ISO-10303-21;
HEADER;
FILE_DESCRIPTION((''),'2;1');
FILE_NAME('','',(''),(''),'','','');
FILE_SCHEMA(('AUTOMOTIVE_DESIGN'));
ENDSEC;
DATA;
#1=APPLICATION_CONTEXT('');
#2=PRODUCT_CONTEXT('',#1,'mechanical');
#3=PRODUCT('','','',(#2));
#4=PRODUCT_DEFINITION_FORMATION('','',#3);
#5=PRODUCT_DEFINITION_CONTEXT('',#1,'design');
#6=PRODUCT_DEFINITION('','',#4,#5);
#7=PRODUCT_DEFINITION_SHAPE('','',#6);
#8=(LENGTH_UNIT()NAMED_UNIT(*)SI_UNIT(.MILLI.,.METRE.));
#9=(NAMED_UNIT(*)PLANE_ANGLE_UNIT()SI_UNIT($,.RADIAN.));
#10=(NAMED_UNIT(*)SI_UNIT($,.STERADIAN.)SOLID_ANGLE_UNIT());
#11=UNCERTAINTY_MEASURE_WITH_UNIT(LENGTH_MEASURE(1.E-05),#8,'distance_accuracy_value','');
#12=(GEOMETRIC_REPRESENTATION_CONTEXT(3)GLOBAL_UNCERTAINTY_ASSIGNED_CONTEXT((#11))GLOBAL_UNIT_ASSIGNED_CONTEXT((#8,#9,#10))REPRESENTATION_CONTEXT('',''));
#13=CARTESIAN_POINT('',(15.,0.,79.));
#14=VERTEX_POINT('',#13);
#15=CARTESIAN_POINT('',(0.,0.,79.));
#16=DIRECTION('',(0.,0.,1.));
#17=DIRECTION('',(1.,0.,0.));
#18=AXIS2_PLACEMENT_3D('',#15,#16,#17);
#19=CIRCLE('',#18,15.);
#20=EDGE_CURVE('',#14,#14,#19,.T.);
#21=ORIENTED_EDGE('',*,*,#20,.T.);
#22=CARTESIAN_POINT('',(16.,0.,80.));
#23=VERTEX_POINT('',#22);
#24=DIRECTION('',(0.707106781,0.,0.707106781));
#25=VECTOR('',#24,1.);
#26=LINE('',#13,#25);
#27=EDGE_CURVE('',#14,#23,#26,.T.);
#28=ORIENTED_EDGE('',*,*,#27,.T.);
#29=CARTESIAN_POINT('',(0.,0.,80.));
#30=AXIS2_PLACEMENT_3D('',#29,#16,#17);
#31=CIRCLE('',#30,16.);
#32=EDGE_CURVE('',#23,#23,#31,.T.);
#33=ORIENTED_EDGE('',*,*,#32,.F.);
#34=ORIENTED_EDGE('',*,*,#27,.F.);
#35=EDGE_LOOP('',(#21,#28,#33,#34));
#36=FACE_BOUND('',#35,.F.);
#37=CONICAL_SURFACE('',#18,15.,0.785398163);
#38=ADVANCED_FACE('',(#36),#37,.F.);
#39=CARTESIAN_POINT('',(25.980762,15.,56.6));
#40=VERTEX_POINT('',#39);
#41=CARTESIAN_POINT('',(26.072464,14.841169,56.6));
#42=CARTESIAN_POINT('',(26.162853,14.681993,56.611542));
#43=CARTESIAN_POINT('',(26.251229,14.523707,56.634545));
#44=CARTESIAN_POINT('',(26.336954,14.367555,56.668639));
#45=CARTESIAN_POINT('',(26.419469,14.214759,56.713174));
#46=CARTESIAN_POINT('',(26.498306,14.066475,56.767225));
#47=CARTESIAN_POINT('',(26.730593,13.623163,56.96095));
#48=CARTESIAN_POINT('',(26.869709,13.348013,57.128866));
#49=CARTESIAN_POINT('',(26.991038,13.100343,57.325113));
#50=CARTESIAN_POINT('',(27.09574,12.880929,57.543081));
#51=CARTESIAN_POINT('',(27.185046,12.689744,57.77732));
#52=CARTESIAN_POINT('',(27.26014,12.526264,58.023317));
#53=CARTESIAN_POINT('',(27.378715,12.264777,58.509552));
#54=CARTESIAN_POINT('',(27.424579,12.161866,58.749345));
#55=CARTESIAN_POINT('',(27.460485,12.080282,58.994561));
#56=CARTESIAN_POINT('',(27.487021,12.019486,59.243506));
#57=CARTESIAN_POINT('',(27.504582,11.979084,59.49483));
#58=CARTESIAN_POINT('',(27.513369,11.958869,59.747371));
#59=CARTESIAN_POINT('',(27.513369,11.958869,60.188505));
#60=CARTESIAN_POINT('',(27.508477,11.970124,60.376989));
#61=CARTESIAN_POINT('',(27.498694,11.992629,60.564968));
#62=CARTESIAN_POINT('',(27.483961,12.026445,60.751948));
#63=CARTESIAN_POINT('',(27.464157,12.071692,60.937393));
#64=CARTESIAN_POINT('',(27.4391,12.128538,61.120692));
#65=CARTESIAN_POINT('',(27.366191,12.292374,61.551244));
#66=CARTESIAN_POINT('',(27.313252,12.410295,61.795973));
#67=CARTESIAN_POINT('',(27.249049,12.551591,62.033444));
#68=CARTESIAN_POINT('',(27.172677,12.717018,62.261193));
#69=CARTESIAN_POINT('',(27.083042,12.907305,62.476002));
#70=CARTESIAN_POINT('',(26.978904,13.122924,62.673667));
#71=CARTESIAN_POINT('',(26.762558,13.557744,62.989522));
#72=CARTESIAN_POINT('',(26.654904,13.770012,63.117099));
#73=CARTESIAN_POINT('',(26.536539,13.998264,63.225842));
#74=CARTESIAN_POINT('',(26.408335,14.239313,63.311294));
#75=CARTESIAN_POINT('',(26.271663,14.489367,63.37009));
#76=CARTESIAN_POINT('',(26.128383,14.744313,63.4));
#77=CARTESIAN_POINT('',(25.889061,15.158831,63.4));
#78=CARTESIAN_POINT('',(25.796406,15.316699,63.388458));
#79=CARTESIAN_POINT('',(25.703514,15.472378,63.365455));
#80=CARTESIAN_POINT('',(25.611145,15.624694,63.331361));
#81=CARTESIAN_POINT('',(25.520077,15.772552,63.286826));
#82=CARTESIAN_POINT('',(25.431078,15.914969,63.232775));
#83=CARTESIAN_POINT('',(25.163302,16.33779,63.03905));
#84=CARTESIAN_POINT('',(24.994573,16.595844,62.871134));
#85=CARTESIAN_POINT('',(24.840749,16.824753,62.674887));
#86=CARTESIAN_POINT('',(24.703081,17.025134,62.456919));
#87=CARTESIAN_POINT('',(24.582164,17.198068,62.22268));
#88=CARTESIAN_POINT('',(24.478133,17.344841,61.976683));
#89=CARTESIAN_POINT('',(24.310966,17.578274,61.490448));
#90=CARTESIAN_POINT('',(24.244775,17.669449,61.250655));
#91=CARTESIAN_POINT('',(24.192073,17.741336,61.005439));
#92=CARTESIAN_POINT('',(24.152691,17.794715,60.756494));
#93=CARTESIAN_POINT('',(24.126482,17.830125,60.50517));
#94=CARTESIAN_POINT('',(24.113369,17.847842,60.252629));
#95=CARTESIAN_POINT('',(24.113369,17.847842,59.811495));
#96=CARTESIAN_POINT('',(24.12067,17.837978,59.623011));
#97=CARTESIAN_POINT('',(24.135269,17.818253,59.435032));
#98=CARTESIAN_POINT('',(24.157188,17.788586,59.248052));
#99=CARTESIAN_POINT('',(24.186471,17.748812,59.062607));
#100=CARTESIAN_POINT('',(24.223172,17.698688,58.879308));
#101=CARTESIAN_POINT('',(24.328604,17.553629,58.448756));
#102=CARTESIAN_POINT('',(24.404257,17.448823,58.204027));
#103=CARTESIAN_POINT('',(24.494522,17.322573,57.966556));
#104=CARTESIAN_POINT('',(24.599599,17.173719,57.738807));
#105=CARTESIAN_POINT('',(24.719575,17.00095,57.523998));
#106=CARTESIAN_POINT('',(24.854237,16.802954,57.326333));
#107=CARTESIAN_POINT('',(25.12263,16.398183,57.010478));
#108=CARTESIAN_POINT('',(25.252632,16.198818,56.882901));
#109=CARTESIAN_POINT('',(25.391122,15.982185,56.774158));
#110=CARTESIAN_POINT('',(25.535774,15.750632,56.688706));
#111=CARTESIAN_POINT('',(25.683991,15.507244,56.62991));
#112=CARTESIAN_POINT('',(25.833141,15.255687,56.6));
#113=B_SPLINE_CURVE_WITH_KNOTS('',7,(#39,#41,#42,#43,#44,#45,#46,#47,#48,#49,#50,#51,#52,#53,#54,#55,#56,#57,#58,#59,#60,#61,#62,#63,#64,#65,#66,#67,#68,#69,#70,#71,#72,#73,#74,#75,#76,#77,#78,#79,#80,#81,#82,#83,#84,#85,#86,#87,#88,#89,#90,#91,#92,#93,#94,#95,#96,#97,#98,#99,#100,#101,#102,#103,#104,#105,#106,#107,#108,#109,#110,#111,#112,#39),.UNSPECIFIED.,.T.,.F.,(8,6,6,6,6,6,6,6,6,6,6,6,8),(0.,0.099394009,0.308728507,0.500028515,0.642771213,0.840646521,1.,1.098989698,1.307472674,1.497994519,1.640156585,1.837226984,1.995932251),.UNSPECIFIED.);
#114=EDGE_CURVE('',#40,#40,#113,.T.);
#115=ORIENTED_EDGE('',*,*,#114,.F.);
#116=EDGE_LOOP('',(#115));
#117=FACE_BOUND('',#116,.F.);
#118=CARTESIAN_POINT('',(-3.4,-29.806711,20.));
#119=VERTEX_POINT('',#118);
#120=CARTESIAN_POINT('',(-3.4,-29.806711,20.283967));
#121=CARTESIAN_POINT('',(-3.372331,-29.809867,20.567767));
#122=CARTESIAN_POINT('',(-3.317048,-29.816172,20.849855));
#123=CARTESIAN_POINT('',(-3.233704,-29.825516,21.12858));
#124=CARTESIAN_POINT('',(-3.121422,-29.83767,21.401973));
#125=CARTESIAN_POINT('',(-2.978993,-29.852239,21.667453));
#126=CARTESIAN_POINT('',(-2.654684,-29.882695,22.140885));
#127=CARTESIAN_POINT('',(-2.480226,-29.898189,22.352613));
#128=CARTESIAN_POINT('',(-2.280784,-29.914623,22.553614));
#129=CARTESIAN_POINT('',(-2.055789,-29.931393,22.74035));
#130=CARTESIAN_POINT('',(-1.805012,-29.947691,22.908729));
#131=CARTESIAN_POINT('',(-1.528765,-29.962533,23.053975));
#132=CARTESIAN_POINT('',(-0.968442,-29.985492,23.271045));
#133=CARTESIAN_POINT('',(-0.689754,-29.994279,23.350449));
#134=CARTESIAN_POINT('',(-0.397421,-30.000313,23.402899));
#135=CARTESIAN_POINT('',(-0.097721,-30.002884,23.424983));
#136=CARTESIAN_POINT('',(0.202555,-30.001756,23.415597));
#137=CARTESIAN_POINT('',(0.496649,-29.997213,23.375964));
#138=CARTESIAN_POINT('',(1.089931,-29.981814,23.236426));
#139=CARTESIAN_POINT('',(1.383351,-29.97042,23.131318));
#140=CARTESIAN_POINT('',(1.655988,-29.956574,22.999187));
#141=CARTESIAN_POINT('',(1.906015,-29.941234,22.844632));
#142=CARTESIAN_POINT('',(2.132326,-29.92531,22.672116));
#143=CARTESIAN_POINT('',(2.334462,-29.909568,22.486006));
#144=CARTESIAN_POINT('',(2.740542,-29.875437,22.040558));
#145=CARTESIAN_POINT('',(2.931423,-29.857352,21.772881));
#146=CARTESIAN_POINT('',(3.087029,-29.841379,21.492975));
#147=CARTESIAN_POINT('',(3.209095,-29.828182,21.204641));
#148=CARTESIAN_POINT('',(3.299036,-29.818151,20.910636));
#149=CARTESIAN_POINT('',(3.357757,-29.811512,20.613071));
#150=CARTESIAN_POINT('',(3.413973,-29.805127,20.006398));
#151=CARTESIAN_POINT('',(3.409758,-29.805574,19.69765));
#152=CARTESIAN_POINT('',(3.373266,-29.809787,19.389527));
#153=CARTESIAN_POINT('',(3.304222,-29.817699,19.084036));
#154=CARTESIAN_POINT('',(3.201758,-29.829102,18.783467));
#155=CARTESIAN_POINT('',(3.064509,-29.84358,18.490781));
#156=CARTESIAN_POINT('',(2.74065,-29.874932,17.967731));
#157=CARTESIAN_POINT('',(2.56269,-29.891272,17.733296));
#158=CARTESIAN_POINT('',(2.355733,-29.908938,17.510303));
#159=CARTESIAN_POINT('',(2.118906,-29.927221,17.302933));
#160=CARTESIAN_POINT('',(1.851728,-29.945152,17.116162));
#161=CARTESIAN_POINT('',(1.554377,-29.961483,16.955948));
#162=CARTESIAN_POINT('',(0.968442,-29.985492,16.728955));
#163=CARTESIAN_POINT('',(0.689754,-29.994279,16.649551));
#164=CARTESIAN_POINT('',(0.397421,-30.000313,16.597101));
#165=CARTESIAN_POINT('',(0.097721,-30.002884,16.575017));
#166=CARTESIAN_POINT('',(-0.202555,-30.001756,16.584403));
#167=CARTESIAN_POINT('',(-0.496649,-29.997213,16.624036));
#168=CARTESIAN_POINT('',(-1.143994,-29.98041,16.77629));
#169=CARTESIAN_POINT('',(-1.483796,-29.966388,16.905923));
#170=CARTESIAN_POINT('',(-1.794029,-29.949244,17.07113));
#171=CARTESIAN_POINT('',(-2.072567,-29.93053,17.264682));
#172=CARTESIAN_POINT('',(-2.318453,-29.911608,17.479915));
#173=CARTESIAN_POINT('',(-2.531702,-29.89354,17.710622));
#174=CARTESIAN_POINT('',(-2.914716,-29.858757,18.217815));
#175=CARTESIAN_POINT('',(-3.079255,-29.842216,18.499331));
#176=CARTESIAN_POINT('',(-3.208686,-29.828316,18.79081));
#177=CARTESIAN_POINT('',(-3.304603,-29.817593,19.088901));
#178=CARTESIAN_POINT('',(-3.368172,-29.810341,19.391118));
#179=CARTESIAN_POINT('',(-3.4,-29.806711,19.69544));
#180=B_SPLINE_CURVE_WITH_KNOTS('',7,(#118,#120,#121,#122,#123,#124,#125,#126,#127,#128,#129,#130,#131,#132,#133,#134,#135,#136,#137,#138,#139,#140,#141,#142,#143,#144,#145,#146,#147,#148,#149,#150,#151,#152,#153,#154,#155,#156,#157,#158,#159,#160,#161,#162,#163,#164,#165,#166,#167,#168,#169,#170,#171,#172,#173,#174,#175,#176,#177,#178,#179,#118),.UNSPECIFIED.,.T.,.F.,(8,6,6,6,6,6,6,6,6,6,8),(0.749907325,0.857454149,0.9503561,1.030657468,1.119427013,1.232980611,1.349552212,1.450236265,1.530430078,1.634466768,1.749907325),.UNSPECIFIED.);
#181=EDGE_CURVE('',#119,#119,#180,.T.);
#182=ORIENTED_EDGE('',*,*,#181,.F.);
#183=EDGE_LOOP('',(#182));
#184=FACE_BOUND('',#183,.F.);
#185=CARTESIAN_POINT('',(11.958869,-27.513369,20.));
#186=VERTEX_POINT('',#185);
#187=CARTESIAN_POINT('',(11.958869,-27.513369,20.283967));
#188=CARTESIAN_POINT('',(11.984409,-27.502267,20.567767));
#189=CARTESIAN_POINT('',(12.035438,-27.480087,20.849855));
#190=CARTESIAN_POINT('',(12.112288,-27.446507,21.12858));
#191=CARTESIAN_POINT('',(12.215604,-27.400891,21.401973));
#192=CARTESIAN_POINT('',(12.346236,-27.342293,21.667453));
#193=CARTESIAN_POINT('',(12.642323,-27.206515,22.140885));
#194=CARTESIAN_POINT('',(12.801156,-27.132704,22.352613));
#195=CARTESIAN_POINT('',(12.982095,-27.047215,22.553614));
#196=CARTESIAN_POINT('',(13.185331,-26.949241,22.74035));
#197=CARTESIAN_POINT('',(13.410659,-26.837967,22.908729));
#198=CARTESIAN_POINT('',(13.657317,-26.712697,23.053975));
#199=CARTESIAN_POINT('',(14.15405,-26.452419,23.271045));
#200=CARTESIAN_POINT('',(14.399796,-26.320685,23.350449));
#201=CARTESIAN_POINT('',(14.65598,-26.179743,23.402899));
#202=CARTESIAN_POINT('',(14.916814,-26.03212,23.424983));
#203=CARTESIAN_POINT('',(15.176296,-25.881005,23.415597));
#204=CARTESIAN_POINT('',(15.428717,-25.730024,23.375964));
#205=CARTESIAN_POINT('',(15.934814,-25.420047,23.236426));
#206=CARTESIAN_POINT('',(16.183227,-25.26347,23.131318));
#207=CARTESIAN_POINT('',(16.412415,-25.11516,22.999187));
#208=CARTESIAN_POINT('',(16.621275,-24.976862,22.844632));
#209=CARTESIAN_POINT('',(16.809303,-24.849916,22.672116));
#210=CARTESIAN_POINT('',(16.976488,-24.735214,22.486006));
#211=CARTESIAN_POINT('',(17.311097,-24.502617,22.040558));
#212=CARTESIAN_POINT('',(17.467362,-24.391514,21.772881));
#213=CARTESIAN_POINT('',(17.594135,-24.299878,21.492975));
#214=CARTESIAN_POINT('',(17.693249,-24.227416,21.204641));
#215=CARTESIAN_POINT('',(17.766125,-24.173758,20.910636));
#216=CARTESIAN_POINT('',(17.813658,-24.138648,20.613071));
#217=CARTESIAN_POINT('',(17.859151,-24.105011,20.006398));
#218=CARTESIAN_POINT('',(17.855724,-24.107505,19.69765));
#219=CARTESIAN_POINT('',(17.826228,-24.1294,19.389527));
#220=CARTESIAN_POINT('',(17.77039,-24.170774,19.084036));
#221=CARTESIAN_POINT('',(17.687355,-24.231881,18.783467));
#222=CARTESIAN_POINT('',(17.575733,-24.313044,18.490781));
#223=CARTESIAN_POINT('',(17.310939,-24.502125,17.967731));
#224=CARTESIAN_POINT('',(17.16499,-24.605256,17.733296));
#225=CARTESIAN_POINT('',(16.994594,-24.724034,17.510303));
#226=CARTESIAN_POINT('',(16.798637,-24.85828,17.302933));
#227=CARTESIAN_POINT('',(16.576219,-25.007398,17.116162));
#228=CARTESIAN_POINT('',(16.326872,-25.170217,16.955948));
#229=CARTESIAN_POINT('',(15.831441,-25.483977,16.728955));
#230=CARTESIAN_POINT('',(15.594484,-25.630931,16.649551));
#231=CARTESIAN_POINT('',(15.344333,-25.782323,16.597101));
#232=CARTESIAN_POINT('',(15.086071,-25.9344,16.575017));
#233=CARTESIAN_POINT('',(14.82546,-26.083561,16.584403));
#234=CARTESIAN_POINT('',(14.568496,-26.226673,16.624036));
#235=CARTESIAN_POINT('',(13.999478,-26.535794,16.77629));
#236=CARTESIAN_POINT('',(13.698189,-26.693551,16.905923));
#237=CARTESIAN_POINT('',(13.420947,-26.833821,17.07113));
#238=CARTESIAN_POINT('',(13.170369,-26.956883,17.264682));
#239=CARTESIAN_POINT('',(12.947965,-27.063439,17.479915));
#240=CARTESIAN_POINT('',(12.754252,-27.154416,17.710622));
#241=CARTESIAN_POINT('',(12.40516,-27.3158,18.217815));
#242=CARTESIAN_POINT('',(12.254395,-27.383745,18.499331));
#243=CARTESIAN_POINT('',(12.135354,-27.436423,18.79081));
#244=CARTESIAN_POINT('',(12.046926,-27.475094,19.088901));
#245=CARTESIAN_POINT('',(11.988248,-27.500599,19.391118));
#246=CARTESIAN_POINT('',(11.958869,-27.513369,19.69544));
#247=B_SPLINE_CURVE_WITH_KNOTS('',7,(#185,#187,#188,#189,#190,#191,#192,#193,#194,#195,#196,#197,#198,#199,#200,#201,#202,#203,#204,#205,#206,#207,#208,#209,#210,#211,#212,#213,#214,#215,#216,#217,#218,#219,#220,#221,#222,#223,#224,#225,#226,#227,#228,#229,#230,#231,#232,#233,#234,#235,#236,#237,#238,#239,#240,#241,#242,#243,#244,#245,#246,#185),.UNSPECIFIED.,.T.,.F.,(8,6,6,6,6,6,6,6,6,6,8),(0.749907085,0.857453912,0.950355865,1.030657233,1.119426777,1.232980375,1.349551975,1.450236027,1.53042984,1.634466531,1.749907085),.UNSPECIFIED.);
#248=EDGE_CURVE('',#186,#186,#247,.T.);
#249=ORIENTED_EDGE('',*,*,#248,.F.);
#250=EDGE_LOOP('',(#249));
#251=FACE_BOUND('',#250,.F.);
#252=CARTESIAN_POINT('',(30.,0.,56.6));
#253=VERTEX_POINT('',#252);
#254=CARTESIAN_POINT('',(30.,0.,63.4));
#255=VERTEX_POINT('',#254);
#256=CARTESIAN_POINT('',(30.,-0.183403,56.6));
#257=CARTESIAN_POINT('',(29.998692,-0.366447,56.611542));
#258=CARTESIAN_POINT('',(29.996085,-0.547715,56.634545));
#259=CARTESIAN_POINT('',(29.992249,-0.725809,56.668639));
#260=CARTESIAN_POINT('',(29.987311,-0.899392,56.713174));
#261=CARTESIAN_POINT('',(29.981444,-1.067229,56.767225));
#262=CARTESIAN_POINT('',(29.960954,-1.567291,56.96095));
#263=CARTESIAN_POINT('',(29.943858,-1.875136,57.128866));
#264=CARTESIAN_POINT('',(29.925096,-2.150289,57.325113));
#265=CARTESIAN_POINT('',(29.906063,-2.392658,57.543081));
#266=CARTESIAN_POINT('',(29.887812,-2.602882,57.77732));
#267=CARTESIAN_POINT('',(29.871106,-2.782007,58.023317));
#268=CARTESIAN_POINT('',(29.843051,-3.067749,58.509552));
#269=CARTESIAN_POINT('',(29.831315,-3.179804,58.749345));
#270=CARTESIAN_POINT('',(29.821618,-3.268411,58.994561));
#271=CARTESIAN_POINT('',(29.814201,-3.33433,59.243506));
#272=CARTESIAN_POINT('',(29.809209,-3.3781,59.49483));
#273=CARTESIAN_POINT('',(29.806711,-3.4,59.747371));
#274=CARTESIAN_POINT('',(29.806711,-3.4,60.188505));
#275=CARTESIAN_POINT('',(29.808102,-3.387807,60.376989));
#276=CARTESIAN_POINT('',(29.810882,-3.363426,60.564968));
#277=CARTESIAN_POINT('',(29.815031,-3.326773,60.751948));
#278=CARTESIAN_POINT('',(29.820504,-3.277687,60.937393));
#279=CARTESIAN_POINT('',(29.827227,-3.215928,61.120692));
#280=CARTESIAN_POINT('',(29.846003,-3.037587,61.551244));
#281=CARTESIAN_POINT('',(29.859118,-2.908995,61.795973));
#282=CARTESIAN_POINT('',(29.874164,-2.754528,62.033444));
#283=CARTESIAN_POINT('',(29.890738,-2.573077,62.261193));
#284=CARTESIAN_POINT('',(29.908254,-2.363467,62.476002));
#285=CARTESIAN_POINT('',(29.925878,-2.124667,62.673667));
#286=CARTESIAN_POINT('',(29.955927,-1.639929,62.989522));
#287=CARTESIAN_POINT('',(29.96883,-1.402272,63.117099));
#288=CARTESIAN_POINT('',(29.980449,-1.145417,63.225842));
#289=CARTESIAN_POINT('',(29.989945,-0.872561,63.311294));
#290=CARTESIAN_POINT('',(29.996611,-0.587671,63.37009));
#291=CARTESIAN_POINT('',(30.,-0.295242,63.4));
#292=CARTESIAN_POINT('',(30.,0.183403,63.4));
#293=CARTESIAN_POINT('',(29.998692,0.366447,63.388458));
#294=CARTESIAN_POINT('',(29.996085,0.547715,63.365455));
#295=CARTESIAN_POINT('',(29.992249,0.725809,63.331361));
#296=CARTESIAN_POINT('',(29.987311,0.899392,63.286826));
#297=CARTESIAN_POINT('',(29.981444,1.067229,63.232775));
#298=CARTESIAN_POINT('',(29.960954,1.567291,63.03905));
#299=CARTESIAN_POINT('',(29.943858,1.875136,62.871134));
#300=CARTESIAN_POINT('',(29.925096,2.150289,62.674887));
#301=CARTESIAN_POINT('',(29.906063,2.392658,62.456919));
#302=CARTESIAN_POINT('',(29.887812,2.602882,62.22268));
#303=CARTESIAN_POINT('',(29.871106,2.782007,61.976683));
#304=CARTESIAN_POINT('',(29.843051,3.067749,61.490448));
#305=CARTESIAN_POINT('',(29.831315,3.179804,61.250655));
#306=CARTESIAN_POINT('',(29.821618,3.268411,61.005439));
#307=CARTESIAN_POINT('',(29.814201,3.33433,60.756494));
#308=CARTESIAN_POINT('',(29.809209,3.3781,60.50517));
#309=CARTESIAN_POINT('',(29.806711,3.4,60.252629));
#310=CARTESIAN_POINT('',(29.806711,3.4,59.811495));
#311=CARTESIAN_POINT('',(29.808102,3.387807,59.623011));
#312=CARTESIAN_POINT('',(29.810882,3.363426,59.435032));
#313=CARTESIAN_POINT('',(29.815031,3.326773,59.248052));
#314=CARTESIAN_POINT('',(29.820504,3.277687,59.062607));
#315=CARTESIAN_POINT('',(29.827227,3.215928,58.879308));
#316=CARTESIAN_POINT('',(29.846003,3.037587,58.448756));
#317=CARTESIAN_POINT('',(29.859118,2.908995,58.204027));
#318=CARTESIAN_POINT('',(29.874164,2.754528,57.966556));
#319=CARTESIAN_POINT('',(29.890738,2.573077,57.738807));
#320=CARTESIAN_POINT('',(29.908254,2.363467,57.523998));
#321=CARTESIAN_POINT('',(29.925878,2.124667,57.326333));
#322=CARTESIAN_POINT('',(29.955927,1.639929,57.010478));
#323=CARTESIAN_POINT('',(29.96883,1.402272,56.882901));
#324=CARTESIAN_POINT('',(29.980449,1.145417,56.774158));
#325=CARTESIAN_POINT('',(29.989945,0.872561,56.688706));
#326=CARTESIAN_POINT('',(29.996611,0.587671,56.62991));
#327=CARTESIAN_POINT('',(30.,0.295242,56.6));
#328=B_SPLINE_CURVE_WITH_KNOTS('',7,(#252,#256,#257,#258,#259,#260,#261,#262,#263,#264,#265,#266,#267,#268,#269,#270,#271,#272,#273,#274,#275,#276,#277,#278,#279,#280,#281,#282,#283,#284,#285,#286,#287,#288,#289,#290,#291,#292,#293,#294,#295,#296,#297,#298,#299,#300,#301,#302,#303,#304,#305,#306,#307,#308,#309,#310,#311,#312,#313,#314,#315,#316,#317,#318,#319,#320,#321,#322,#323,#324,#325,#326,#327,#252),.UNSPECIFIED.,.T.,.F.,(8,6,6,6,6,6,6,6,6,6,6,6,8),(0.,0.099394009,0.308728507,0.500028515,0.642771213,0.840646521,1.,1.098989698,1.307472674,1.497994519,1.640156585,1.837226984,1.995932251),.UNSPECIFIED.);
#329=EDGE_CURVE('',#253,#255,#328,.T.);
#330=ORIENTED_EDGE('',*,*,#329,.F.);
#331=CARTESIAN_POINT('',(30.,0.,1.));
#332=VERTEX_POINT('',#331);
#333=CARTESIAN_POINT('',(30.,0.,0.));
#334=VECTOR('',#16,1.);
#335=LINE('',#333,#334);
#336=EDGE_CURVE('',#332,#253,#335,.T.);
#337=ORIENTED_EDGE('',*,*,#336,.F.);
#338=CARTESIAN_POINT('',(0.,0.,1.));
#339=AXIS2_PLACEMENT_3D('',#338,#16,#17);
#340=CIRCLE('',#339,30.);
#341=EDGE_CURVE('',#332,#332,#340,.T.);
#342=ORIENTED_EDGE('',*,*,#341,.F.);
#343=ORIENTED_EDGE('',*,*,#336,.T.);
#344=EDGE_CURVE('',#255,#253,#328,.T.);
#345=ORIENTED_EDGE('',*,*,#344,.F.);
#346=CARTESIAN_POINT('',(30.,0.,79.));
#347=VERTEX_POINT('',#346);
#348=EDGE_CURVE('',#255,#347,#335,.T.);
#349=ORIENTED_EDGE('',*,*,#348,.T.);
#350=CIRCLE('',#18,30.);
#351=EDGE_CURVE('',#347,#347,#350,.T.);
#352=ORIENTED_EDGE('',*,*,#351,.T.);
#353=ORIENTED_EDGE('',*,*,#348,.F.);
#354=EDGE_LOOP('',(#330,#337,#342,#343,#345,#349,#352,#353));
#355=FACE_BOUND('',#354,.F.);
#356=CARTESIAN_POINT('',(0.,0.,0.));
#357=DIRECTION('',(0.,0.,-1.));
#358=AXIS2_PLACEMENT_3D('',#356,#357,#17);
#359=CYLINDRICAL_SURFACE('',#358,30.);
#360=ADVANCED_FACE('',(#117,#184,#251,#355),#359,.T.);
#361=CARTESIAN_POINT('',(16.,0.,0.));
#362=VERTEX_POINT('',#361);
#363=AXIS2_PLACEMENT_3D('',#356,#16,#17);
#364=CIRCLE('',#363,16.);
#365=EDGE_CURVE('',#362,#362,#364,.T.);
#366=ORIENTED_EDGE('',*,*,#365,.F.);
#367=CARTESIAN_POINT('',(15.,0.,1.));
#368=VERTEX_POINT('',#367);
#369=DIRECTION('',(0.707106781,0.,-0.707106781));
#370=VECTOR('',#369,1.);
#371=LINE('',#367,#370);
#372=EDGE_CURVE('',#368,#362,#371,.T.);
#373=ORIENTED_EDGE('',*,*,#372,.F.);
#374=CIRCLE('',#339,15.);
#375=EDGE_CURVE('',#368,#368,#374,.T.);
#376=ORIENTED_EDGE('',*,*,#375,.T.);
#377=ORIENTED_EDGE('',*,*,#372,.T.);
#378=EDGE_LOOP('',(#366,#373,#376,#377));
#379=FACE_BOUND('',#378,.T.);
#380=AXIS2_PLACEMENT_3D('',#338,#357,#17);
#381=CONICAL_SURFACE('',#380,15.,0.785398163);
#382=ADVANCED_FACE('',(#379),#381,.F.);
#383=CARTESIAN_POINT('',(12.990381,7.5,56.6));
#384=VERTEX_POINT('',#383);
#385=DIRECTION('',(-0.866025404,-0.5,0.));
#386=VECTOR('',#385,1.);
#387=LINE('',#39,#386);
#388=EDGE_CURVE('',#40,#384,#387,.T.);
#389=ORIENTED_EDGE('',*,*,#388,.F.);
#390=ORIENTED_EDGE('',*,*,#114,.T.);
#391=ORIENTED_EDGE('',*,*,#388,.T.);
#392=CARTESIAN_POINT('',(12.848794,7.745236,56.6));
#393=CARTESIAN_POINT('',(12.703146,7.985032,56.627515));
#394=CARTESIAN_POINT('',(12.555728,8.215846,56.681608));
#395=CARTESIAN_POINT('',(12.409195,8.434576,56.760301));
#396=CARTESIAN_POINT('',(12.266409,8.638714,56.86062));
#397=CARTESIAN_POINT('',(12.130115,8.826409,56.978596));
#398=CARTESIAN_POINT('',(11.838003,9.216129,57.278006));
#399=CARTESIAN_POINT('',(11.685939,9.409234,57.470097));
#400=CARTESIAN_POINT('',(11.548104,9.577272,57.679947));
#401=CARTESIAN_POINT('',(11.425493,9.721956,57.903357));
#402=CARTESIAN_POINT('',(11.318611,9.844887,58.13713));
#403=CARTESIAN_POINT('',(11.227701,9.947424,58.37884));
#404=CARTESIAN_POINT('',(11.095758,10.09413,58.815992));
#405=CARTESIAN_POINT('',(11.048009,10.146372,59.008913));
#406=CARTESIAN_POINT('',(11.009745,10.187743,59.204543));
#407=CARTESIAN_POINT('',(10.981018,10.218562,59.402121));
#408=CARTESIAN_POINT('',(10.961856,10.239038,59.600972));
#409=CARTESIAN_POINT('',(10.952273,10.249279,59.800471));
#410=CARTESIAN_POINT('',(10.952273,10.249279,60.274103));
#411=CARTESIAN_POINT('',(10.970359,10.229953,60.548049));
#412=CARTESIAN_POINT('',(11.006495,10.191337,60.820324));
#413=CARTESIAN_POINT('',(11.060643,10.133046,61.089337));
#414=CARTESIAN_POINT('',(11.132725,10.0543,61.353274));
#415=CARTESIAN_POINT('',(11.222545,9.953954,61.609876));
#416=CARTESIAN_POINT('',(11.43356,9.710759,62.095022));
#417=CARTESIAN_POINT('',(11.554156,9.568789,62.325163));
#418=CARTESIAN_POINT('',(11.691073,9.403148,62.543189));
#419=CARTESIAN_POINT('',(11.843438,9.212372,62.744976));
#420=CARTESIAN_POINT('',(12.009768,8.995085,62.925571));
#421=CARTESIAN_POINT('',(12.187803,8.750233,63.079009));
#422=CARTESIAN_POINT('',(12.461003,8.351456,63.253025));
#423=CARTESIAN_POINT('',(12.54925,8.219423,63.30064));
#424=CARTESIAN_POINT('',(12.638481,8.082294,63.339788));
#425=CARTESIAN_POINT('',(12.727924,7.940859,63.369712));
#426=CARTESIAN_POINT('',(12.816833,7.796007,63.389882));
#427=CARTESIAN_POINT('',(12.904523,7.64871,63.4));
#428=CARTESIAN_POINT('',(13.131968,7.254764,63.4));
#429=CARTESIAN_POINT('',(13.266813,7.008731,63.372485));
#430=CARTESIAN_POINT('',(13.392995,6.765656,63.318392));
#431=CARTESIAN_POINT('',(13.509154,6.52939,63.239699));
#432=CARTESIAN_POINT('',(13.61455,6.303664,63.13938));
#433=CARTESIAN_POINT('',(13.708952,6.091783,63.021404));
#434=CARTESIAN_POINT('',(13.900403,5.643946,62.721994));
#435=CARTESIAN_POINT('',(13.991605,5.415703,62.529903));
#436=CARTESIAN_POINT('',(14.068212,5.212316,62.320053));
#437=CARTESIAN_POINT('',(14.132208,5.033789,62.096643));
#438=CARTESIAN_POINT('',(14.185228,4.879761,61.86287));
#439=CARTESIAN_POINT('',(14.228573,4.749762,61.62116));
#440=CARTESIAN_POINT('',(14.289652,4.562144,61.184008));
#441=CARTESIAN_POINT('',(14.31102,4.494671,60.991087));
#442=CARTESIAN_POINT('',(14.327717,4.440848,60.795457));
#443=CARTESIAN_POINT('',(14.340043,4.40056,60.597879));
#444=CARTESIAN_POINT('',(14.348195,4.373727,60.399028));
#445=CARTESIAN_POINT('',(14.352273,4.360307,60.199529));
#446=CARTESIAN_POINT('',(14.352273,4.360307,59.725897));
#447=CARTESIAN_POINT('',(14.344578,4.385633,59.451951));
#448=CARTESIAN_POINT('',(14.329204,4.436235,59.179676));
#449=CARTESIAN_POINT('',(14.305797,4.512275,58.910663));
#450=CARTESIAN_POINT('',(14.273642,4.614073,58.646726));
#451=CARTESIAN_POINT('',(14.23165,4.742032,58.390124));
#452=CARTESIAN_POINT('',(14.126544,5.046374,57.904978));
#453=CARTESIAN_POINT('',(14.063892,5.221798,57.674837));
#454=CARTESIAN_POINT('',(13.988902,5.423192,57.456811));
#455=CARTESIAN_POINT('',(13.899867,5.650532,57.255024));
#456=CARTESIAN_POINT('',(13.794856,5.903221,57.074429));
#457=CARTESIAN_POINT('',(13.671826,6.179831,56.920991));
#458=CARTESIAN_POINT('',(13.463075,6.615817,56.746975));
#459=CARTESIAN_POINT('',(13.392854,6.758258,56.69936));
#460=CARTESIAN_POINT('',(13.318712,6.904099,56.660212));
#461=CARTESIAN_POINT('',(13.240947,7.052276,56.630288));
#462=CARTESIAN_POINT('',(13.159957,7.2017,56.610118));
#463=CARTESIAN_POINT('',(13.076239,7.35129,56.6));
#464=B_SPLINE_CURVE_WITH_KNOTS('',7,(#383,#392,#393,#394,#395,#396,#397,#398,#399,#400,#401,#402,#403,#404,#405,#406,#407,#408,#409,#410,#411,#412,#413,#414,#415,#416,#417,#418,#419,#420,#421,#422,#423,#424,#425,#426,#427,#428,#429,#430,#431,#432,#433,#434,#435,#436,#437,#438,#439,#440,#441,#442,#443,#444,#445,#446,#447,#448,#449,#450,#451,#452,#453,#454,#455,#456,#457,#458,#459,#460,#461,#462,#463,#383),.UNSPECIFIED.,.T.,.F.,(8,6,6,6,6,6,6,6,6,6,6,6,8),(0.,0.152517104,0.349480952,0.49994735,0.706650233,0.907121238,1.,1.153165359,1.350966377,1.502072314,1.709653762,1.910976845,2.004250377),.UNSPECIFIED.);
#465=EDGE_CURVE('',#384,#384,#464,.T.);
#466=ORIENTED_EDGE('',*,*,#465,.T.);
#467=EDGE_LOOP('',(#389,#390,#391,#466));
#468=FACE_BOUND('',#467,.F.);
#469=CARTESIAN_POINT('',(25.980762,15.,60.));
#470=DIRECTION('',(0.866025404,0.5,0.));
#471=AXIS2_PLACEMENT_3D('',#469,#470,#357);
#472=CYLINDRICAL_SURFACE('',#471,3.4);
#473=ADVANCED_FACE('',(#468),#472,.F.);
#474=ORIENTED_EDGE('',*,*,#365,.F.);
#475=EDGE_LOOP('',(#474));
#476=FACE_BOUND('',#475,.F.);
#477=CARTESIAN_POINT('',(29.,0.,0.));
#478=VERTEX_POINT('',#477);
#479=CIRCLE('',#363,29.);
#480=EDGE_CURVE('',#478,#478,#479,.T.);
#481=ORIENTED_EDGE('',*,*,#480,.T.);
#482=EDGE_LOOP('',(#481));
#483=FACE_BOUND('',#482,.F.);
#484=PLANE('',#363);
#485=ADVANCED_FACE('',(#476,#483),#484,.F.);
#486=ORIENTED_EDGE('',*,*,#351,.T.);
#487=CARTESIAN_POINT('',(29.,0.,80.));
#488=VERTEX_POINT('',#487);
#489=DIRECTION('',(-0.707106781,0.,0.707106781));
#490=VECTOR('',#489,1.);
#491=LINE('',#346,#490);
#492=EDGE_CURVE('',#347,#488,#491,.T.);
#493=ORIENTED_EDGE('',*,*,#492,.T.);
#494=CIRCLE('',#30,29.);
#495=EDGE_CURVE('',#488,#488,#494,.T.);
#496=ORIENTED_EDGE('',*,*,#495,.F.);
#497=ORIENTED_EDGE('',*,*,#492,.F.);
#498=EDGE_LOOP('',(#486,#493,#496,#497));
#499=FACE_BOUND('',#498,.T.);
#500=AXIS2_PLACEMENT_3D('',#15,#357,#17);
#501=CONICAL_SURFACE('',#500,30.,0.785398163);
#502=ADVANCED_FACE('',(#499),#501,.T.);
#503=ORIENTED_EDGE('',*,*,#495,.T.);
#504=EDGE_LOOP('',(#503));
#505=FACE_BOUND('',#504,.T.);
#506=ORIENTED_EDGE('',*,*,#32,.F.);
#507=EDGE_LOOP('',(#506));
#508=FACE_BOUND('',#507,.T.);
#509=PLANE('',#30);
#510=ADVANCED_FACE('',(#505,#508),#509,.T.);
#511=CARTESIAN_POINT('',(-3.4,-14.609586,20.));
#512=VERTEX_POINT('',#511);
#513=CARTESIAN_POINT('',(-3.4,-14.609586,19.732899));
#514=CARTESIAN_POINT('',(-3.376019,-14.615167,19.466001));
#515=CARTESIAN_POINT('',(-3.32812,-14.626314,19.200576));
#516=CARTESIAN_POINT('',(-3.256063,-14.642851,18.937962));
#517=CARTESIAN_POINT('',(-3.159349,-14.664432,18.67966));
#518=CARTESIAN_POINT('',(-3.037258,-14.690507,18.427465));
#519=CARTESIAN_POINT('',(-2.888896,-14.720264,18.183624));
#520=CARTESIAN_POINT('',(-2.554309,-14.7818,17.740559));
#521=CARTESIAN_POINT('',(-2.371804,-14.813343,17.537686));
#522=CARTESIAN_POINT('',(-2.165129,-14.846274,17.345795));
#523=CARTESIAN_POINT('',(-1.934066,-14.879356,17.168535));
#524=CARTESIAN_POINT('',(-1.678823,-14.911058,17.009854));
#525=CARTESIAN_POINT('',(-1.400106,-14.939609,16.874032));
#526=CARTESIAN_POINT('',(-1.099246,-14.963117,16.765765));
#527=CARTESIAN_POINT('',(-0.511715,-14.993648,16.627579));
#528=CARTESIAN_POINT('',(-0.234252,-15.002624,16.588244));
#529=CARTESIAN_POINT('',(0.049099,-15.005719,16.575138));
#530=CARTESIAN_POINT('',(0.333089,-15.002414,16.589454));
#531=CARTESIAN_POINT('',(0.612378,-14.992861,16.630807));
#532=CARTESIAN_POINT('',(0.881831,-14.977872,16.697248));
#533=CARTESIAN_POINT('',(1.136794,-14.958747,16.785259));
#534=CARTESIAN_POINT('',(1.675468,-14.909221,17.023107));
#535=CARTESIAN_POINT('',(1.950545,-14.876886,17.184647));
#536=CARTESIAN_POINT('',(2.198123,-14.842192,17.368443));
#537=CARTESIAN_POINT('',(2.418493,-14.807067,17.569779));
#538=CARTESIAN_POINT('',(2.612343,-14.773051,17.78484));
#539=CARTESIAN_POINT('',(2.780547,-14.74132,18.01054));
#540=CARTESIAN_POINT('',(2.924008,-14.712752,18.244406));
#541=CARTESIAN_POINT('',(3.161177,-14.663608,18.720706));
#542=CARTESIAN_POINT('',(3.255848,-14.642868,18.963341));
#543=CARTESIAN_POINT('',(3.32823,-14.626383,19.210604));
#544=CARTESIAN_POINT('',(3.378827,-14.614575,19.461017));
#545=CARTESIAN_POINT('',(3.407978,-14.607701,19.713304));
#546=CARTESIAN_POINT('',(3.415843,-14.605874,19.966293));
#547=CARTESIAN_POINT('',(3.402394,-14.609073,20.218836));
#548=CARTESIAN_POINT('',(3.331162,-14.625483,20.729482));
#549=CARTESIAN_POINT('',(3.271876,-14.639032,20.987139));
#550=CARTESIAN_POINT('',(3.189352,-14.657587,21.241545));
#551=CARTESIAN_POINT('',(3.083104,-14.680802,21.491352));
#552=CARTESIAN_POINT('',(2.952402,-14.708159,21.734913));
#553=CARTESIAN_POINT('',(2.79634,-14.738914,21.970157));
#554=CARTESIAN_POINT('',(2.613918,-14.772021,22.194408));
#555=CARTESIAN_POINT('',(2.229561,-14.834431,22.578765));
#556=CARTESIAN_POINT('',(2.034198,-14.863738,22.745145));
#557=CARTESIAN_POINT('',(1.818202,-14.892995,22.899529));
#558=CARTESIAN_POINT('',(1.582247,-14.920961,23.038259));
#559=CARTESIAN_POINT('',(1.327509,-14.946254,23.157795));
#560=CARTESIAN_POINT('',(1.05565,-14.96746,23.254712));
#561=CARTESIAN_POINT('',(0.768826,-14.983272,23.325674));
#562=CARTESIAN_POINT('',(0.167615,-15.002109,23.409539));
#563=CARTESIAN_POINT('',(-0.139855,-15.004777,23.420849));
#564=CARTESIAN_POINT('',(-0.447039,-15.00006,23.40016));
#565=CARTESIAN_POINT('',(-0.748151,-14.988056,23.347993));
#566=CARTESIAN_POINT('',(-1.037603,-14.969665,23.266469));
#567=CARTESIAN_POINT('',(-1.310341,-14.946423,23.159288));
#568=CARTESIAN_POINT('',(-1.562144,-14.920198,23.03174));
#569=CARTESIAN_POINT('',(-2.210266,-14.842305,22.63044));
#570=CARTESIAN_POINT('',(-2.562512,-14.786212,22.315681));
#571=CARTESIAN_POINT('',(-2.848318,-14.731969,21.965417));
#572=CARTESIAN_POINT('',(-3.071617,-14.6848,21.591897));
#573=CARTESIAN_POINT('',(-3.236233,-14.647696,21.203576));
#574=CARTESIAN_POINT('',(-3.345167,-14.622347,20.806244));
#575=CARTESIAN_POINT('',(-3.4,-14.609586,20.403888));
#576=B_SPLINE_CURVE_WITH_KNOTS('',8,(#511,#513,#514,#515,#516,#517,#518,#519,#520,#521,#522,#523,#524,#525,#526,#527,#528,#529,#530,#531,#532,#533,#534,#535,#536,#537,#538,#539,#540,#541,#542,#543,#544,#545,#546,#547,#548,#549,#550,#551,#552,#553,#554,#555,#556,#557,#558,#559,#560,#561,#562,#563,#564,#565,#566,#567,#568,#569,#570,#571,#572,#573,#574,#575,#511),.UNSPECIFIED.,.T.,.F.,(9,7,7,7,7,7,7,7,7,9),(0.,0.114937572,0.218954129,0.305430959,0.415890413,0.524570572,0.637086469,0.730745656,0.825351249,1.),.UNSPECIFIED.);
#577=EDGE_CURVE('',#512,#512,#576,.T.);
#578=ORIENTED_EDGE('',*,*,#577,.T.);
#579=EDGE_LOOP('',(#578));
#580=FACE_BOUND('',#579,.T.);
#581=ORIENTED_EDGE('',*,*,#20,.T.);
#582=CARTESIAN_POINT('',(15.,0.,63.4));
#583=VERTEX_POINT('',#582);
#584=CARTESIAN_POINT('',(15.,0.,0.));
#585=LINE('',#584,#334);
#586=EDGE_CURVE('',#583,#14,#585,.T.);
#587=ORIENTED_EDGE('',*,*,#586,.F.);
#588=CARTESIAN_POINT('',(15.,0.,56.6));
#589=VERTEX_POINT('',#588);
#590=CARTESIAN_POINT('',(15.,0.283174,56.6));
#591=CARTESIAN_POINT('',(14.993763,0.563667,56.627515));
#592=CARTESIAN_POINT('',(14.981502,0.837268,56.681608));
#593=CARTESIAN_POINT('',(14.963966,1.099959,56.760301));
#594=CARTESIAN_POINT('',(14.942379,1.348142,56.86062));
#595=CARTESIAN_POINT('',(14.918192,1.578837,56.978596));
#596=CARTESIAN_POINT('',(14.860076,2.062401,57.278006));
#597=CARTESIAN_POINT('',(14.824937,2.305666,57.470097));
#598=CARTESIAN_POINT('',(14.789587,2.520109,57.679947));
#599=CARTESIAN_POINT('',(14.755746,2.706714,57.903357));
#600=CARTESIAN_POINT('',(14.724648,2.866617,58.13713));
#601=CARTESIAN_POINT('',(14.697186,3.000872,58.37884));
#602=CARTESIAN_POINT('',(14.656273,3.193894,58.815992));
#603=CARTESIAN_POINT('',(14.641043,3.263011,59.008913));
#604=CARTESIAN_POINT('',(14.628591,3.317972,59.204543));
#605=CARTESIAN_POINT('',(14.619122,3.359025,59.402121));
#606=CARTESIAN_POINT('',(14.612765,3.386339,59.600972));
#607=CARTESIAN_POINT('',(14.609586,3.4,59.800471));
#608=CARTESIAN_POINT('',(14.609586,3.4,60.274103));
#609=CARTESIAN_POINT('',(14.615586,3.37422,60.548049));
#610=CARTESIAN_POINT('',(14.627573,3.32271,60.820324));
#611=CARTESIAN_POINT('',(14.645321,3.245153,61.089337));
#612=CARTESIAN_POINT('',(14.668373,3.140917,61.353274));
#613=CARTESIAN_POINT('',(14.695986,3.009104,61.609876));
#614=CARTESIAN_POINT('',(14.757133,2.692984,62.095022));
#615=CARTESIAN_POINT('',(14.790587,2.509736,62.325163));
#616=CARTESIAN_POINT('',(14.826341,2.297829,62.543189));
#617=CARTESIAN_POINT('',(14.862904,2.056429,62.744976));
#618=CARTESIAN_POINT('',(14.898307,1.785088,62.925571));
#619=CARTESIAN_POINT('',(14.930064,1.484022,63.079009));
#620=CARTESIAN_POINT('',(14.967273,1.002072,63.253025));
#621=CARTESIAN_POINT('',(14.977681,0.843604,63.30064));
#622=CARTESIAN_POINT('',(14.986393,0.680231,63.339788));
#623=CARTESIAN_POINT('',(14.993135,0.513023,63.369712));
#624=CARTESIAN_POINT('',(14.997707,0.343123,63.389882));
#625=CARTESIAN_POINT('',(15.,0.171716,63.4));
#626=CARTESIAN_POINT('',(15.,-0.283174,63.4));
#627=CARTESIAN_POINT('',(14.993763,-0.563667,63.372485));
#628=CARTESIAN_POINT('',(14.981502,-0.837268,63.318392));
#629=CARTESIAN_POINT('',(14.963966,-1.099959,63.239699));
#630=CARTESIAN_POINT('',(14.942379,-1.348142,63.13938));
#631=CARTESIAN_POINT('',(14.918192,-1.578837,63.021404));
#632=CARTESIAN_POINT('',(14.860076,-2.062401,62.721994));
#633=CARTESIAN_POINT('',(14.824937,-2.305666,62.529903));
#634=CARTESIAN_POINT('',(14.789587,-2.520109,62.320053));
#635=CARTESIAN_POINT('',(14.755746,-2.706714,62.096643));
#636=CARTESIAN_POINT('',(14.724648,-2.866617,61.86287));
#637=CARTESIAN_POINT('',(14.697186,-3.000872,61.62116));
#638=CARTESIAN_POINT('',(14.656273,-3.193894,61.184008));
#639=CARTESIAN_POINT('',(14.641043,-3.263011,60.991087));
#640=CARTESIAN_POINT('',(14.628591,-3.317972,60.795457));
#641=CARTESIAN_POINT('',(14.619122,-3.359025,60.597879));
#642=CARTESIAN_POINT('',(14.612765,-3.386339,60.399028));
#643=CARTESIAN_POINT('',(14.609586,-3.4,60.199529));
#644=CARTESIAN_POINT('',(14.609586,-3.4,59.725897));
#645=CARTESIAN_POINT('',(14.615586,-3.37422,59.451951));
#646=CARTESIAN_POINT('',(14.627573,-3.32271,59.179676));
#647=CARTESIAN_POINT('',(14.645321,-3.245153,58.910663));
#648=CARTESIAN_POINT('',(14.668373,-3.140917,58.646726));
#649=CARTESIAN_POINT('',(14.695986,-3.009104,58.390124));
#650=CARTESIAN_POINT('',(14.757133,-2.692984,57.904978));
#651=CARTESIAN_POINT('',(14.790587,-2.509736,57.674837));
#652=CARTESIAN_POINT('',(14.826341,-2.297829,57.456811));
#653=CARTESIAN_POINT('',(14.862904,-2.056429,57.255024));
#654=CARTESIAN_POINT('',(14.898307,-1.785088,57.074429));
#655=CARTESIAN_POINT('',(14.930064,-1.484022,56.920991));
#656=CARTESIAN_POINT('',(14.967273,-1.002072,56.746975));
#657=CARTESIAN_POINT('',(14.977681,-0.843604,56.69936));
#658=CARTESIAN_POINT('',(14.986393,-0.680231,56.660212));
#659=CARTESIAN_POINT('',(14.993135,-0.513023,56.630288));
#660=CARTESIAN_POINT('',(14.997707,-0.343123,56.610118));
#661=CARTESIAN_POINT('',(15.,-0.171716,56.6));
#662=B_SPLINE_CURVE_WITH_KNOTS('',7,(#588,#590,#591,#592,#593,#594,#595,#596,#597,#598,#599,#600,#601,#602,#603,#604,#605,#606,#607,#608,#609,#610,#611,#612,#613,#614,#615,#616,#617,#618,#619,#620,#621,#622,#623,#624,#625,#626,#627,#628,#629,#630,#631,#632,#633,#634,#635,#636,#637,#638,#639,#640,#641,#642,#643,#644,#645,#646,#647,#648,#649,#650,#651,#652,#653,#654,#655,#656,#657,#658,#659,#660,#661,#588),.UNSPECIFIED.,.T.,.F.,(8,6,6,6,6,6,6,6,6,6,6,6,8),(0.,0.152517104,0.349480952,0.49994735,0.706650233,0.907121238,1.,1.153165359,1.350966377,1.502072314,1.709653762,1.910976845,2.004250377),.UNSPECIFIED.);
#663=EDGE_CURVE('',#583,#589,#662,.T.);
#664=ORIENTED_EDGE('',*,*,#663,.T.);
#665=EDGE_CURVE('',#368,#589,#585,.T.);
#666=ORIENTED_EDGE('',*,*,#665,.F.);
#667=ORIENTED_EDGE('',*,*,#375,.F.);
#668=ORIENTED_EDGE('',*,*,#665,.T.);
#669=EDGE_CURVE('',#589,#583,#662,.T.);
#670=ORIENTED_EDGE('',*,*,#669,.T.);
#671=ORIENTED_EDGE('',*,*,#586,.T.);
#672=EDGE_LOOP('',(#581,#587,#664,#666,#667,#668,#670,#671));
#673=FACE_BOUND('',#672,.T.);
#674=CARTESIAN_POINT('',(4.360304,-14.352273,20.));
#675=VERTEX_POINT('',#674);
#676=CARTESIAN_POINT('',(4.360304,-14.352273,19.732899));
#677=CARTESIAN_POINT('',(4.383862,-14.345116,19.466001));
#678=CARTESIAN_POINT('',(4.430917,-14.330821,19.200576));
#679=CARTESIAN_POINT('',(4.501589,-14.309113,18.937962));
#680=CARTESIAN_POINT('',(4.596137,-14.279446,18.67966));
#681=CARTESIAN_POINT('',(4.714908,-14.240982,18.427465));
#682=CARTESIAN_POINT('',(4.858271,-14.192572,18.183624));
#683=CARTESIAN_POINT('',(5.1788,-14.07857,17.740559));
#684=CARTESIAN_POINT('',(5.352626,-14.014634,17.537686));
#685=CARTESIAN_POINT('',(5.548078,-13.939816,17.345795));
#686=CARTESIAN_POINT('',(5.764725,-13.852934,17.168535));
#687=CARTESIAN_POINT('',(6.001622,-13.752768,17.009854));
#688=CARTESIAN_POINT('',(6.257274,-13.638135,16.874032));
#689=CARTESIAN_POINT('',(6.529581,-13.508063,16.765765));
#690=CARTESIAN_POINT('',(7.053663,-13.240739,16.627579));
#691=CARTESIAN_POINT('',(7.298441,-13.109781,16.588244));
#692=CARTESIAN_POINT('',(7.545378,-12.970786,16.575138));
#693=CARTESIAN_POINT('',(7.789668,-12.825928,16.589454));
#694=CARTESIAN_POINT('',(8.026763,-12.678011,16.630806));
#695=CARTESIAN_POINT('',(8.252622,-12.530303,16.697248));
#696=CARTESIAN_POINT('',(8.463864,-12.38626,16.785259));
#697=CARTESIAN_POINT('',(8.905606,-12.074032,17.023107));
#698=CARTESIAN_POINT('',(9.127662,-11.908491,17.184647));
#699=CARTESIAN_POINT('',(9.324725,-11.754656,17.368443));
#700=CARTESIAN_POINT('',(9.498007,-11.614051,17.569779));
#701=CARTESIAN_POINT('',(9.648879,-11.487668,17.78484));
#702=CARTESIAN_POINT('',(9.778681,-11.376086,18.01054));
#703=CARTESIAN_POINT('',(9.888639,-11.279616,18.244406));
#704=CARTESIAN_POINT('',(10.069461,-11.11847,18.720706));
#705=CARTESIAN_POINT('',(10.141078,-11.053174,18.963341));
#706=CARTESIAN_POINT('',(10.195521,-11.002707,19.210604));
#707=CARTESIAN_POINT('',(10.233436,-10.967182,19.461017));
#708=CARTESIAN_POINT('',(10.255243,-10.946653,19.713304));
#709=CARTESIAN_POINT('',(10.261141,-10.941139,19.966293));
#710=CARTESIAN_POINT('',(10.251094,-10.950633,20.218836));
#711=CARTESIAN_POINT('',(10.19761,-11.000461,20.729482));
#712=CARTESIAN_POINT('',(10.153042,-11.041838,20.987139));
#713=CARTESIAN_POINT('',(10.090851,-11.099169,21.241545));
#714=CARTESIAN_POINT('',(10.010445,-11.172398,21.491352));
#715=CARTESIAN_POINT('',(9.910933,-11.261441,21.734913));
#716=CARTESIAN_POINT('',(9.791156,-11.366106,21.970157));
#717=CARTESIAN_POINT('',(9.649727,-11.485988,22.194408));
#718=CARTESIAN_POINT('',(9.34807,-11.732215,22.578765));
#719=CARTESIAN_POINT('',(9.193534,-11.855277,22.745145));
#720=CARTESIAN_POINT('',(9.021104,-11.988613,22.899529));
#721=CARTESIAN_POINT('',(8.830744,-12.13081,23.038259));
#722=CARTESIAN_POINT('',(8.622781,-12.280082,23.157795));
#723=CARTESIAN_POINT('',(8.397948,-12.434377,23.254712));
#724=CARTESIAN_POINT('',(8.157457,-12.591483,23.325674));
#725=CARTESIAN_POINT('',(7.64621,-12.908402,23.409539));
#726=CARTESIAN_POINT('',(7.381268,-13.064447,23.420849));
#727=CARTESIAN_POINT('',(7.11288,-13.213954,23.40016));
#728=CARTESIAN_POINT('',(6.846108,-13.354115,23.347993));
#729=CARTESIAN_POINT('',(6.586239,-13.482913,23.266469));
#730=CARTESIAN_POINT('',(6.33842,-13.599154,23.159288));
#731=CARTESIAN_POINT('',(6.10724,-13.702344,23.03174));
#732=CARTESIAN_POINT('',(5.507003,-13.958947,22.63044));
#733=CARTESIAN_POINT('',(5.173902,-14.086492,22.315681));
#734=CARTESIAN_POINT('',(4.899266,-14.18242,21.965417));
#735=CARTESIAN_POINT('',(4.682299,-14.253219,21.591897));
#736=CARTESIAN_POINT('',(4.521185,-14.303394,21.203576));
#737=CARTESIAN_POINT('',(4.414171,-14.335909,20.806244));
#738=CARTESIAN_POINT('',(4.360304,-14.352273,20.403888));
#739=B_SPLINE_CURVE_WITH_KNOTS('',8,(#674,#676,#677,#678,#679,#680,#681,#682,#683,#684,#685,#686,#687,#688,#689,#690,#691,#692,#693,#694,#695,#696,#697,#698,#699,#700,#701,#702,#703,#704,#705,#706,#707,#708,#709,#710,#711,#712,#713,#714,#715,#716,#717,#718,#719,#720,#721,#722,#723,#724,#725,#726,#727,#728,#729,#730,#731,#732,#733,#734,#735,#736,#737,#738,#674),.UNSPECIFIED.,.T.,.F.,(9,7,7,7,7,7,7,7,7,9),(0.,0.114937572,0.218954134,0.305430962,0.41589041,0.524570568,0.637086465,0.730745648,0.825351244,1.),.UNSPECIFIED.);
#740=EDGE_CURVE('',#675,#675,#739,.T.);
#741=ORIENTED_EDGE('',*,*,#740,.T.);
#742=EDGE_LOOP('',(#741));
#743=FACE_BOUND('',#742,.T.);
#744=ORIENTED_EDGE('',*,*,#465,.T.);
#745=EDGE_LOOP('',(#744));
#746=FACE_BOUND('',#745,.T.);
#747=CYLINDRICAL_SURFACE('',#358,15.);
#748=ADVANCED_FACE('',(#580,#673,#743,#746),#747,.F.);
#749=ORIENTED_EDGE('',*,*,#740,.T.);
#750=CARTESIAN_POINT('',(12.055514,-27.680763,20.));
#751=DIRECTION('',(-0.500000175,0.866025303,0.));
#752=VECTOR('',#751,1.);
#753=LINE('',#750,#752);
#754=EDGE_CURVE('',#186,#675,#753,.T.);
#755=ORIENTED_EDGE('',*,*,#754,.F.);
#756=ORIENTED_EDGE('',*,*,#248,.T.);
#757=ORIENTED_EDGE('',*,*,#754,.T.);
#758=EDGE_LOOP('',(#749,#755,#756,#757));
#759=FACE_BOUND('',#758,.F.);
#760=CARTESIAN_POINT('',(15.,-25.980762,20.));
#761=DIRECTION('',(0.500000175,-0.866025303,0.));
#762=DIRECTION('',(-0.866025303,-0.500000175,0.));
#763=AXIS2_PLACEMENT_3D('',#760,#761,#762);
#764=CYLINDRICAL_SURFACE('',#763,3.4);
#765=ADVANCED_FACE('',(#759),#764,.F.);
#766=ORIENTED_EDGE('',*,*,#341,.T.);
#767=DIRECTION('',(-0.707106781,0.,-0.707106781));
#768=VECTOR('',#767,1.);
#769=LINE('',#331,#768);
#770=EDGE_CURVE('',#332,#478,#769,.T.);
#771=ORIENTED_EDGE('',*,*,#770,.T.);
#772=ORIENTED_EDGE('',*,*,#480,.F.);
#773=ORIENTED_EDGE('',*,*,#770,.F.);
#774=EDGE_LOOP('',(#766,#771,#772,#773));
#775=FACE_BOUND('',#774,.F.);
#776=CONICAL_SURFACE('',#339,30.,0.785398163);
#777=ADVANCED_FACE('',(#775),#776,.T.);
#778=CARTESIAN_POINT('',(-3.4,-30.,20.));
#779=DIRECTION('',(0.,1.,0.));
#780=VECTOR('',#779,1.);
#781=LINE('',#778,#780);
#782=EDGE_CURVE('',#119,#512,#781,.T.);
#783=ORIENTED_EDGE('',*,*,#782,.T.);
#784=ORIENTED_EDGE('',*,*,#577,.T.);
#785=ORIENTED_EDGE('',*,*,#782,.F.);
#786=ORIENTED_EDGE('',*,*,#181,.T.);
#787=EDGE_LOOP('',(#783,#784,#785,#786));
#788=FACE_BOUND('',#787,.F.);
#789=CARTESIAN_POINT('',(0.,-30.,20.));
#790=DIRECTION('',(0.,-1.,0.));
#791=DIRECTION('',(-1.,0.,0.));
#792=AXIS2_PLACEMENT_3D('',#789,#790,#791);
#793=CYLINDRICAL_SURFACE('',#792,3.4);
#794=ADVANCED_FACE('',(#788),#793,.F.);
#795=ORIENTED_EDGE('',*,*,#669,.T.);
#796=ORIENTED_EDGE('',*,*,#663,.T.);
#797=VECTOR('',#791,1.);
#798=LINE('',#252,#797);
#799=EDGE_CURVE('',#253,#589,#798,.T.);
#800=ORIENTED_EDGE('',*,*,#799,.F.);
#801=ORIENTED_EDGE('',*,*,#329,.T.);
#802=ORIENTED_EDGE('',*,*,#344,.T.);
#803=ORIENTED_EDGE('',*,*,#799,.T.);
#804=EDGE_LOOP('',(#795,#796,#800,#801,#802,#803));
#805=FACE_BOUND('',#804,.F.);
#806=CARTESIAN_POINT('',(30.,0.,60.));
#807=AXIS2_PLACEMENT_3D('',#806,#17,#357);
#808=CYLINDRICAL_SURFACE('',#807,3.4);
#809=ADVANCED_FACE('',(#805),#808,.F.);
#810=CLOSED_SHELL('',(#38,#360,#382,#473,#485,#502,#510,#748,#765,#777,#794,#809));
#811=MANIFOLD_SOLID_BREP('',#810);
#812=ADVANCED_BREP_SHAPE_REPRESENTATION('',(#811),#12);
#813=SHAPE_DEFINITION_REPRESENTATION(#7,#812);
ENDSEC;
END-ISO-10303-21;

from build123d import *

# Parameters (mm, degrees)
SKICA1_R                  = 30
SKICA1_R_2                = 15
P_IDAT_VYSUNUT_M1_DEPTH   = 80
ZKOSEN_1_SIZE             = 1
M8_Z_VIT1_REACH           = 62
M8_Z_VIT1_BORE_R          = 3.4
M8_Z_VIT1_ON_FACE_2_REACH = 72.981
M8_Z_VIT1_BORE_2_R        = 3.4
M8_Z_VIT2_REACH           = 62
M8_Z_VIT2_BORE_R          = 3.4
KRUHOV_POLE1_COUNT        = 2
KRUHOV_POLE1_ANGLE        = 30


with BuildPart() as part:
    # Skica1 → Přidat vysunutím1 (new body)
    with BuildSketch(Plane.XY):
        Circle(SKICA1_R)
        Circle(SKICA1_R_2, mode=Mode.SUBTRACT)
    extrude(amount=P_IDAT_VYSUNUT_M1_DEPTH)

    # Zkosení1
    zkosen_1_edges = [part.edges().sort_by_distance(p)[0] for p in [
        (-30, 0, 0),
        (-30, 0, 80),
        (-15, 0, 0),
        (-15, 0, 80),
    ]]
    chamfer(zkosen_1_edges, length=ZKOSEN_1_SIZE)

    # M8 závit1 bore (on position points) → M8 závit1 (cut, up to next)
    with BuildSketch(Plane(origin=(0, -30, 20), x_dir=(-1, 0, 0), z_dir=(0, -1, 0)), mode=Mode.PRIVATE) as m8_z_vit1_sk1:
        Circle(M8_Z_VIT1_BORE_R)
    m8_z_vit1_tool1 = extrude(m8_z_vit1_sk1.sketch, amount=-M8_Z_VIT1_REACH, mode=Mode.PRIVATE) & part.part
    add(m8_z_vit1_tool1.solids().sort_by_distance((0, -30, 20))[0], mode=Mode.SUBTRACT)

    # M8 závit1 bore 2 (on position points) → M8 závit1 on face 2 (cut, up to next)
    with BuildSketch(Plane(origin=(15, -25.980762114, 20), x_dir=(-0.866025303, -0.500000175, 0), z_dir=(0.500000175, -0.866025303, 0)), mode=Mode.PRIVATE) as m8_z_vit1_on_face_2_sk1:
        Circle(M8_Z_VIT1_BORE_2_R)
    m8_z_vit1_on_face_2_tool1 = extrude(m8_z_vit1_on_face_2_sk1.sketch, amount=-M8_Z_VIT1_ON_FACE_2_REACH, mode=Mode.PRIVATE) & part.part
    add(m8_z_vit1_on_face_2_tool1.solids().sort_by_distance((15, -25.980762, 20))[0], mode=Mode.SUBTRACT)

    # M8 závit2 bore → M8 závit2 (cut, up to next)
    with BuildSketch(Plane(origin=(30, 0, 0), x_dir=(0, 0, -1), z_dir=(1, 0, 0)), mode=Mode.PRIVATE) as m8_z_vit2_sk1:
        with Locations((-60, 0)):
            Circle(M8_Z_VIT2_BORE_R)
    m8_z_vit2_tool1 = extrude(m8_z_vit2_sk1.sketch, amount=-M8_Z_VIT2_REACH, mode=Mode.PRIVATE) & part.part
    m8_z_vit2 = m8_z_vit2_tool1.solids().sort_by_distance((30, 0, 60))[0]
    add(m8_z_vit2, mode=Mode.SUBTRACT)

    # Kruhové pole1: M8 závit2 ×2 about axis
    kruhov_pole1_axis = Axis((0, 0, 80), (0, 0, 1))
    for i in range(1, KRUHOV_POLE1_COUNT):
        add(m8_z_vit2.rotate(kruhov_pole1_axis, i * KRUHOV_POLE1_ANGLE / (KRUHOV_POLE1_COUNT - 1)), mode=Mode.SUBTRACT)


solid = part.part
